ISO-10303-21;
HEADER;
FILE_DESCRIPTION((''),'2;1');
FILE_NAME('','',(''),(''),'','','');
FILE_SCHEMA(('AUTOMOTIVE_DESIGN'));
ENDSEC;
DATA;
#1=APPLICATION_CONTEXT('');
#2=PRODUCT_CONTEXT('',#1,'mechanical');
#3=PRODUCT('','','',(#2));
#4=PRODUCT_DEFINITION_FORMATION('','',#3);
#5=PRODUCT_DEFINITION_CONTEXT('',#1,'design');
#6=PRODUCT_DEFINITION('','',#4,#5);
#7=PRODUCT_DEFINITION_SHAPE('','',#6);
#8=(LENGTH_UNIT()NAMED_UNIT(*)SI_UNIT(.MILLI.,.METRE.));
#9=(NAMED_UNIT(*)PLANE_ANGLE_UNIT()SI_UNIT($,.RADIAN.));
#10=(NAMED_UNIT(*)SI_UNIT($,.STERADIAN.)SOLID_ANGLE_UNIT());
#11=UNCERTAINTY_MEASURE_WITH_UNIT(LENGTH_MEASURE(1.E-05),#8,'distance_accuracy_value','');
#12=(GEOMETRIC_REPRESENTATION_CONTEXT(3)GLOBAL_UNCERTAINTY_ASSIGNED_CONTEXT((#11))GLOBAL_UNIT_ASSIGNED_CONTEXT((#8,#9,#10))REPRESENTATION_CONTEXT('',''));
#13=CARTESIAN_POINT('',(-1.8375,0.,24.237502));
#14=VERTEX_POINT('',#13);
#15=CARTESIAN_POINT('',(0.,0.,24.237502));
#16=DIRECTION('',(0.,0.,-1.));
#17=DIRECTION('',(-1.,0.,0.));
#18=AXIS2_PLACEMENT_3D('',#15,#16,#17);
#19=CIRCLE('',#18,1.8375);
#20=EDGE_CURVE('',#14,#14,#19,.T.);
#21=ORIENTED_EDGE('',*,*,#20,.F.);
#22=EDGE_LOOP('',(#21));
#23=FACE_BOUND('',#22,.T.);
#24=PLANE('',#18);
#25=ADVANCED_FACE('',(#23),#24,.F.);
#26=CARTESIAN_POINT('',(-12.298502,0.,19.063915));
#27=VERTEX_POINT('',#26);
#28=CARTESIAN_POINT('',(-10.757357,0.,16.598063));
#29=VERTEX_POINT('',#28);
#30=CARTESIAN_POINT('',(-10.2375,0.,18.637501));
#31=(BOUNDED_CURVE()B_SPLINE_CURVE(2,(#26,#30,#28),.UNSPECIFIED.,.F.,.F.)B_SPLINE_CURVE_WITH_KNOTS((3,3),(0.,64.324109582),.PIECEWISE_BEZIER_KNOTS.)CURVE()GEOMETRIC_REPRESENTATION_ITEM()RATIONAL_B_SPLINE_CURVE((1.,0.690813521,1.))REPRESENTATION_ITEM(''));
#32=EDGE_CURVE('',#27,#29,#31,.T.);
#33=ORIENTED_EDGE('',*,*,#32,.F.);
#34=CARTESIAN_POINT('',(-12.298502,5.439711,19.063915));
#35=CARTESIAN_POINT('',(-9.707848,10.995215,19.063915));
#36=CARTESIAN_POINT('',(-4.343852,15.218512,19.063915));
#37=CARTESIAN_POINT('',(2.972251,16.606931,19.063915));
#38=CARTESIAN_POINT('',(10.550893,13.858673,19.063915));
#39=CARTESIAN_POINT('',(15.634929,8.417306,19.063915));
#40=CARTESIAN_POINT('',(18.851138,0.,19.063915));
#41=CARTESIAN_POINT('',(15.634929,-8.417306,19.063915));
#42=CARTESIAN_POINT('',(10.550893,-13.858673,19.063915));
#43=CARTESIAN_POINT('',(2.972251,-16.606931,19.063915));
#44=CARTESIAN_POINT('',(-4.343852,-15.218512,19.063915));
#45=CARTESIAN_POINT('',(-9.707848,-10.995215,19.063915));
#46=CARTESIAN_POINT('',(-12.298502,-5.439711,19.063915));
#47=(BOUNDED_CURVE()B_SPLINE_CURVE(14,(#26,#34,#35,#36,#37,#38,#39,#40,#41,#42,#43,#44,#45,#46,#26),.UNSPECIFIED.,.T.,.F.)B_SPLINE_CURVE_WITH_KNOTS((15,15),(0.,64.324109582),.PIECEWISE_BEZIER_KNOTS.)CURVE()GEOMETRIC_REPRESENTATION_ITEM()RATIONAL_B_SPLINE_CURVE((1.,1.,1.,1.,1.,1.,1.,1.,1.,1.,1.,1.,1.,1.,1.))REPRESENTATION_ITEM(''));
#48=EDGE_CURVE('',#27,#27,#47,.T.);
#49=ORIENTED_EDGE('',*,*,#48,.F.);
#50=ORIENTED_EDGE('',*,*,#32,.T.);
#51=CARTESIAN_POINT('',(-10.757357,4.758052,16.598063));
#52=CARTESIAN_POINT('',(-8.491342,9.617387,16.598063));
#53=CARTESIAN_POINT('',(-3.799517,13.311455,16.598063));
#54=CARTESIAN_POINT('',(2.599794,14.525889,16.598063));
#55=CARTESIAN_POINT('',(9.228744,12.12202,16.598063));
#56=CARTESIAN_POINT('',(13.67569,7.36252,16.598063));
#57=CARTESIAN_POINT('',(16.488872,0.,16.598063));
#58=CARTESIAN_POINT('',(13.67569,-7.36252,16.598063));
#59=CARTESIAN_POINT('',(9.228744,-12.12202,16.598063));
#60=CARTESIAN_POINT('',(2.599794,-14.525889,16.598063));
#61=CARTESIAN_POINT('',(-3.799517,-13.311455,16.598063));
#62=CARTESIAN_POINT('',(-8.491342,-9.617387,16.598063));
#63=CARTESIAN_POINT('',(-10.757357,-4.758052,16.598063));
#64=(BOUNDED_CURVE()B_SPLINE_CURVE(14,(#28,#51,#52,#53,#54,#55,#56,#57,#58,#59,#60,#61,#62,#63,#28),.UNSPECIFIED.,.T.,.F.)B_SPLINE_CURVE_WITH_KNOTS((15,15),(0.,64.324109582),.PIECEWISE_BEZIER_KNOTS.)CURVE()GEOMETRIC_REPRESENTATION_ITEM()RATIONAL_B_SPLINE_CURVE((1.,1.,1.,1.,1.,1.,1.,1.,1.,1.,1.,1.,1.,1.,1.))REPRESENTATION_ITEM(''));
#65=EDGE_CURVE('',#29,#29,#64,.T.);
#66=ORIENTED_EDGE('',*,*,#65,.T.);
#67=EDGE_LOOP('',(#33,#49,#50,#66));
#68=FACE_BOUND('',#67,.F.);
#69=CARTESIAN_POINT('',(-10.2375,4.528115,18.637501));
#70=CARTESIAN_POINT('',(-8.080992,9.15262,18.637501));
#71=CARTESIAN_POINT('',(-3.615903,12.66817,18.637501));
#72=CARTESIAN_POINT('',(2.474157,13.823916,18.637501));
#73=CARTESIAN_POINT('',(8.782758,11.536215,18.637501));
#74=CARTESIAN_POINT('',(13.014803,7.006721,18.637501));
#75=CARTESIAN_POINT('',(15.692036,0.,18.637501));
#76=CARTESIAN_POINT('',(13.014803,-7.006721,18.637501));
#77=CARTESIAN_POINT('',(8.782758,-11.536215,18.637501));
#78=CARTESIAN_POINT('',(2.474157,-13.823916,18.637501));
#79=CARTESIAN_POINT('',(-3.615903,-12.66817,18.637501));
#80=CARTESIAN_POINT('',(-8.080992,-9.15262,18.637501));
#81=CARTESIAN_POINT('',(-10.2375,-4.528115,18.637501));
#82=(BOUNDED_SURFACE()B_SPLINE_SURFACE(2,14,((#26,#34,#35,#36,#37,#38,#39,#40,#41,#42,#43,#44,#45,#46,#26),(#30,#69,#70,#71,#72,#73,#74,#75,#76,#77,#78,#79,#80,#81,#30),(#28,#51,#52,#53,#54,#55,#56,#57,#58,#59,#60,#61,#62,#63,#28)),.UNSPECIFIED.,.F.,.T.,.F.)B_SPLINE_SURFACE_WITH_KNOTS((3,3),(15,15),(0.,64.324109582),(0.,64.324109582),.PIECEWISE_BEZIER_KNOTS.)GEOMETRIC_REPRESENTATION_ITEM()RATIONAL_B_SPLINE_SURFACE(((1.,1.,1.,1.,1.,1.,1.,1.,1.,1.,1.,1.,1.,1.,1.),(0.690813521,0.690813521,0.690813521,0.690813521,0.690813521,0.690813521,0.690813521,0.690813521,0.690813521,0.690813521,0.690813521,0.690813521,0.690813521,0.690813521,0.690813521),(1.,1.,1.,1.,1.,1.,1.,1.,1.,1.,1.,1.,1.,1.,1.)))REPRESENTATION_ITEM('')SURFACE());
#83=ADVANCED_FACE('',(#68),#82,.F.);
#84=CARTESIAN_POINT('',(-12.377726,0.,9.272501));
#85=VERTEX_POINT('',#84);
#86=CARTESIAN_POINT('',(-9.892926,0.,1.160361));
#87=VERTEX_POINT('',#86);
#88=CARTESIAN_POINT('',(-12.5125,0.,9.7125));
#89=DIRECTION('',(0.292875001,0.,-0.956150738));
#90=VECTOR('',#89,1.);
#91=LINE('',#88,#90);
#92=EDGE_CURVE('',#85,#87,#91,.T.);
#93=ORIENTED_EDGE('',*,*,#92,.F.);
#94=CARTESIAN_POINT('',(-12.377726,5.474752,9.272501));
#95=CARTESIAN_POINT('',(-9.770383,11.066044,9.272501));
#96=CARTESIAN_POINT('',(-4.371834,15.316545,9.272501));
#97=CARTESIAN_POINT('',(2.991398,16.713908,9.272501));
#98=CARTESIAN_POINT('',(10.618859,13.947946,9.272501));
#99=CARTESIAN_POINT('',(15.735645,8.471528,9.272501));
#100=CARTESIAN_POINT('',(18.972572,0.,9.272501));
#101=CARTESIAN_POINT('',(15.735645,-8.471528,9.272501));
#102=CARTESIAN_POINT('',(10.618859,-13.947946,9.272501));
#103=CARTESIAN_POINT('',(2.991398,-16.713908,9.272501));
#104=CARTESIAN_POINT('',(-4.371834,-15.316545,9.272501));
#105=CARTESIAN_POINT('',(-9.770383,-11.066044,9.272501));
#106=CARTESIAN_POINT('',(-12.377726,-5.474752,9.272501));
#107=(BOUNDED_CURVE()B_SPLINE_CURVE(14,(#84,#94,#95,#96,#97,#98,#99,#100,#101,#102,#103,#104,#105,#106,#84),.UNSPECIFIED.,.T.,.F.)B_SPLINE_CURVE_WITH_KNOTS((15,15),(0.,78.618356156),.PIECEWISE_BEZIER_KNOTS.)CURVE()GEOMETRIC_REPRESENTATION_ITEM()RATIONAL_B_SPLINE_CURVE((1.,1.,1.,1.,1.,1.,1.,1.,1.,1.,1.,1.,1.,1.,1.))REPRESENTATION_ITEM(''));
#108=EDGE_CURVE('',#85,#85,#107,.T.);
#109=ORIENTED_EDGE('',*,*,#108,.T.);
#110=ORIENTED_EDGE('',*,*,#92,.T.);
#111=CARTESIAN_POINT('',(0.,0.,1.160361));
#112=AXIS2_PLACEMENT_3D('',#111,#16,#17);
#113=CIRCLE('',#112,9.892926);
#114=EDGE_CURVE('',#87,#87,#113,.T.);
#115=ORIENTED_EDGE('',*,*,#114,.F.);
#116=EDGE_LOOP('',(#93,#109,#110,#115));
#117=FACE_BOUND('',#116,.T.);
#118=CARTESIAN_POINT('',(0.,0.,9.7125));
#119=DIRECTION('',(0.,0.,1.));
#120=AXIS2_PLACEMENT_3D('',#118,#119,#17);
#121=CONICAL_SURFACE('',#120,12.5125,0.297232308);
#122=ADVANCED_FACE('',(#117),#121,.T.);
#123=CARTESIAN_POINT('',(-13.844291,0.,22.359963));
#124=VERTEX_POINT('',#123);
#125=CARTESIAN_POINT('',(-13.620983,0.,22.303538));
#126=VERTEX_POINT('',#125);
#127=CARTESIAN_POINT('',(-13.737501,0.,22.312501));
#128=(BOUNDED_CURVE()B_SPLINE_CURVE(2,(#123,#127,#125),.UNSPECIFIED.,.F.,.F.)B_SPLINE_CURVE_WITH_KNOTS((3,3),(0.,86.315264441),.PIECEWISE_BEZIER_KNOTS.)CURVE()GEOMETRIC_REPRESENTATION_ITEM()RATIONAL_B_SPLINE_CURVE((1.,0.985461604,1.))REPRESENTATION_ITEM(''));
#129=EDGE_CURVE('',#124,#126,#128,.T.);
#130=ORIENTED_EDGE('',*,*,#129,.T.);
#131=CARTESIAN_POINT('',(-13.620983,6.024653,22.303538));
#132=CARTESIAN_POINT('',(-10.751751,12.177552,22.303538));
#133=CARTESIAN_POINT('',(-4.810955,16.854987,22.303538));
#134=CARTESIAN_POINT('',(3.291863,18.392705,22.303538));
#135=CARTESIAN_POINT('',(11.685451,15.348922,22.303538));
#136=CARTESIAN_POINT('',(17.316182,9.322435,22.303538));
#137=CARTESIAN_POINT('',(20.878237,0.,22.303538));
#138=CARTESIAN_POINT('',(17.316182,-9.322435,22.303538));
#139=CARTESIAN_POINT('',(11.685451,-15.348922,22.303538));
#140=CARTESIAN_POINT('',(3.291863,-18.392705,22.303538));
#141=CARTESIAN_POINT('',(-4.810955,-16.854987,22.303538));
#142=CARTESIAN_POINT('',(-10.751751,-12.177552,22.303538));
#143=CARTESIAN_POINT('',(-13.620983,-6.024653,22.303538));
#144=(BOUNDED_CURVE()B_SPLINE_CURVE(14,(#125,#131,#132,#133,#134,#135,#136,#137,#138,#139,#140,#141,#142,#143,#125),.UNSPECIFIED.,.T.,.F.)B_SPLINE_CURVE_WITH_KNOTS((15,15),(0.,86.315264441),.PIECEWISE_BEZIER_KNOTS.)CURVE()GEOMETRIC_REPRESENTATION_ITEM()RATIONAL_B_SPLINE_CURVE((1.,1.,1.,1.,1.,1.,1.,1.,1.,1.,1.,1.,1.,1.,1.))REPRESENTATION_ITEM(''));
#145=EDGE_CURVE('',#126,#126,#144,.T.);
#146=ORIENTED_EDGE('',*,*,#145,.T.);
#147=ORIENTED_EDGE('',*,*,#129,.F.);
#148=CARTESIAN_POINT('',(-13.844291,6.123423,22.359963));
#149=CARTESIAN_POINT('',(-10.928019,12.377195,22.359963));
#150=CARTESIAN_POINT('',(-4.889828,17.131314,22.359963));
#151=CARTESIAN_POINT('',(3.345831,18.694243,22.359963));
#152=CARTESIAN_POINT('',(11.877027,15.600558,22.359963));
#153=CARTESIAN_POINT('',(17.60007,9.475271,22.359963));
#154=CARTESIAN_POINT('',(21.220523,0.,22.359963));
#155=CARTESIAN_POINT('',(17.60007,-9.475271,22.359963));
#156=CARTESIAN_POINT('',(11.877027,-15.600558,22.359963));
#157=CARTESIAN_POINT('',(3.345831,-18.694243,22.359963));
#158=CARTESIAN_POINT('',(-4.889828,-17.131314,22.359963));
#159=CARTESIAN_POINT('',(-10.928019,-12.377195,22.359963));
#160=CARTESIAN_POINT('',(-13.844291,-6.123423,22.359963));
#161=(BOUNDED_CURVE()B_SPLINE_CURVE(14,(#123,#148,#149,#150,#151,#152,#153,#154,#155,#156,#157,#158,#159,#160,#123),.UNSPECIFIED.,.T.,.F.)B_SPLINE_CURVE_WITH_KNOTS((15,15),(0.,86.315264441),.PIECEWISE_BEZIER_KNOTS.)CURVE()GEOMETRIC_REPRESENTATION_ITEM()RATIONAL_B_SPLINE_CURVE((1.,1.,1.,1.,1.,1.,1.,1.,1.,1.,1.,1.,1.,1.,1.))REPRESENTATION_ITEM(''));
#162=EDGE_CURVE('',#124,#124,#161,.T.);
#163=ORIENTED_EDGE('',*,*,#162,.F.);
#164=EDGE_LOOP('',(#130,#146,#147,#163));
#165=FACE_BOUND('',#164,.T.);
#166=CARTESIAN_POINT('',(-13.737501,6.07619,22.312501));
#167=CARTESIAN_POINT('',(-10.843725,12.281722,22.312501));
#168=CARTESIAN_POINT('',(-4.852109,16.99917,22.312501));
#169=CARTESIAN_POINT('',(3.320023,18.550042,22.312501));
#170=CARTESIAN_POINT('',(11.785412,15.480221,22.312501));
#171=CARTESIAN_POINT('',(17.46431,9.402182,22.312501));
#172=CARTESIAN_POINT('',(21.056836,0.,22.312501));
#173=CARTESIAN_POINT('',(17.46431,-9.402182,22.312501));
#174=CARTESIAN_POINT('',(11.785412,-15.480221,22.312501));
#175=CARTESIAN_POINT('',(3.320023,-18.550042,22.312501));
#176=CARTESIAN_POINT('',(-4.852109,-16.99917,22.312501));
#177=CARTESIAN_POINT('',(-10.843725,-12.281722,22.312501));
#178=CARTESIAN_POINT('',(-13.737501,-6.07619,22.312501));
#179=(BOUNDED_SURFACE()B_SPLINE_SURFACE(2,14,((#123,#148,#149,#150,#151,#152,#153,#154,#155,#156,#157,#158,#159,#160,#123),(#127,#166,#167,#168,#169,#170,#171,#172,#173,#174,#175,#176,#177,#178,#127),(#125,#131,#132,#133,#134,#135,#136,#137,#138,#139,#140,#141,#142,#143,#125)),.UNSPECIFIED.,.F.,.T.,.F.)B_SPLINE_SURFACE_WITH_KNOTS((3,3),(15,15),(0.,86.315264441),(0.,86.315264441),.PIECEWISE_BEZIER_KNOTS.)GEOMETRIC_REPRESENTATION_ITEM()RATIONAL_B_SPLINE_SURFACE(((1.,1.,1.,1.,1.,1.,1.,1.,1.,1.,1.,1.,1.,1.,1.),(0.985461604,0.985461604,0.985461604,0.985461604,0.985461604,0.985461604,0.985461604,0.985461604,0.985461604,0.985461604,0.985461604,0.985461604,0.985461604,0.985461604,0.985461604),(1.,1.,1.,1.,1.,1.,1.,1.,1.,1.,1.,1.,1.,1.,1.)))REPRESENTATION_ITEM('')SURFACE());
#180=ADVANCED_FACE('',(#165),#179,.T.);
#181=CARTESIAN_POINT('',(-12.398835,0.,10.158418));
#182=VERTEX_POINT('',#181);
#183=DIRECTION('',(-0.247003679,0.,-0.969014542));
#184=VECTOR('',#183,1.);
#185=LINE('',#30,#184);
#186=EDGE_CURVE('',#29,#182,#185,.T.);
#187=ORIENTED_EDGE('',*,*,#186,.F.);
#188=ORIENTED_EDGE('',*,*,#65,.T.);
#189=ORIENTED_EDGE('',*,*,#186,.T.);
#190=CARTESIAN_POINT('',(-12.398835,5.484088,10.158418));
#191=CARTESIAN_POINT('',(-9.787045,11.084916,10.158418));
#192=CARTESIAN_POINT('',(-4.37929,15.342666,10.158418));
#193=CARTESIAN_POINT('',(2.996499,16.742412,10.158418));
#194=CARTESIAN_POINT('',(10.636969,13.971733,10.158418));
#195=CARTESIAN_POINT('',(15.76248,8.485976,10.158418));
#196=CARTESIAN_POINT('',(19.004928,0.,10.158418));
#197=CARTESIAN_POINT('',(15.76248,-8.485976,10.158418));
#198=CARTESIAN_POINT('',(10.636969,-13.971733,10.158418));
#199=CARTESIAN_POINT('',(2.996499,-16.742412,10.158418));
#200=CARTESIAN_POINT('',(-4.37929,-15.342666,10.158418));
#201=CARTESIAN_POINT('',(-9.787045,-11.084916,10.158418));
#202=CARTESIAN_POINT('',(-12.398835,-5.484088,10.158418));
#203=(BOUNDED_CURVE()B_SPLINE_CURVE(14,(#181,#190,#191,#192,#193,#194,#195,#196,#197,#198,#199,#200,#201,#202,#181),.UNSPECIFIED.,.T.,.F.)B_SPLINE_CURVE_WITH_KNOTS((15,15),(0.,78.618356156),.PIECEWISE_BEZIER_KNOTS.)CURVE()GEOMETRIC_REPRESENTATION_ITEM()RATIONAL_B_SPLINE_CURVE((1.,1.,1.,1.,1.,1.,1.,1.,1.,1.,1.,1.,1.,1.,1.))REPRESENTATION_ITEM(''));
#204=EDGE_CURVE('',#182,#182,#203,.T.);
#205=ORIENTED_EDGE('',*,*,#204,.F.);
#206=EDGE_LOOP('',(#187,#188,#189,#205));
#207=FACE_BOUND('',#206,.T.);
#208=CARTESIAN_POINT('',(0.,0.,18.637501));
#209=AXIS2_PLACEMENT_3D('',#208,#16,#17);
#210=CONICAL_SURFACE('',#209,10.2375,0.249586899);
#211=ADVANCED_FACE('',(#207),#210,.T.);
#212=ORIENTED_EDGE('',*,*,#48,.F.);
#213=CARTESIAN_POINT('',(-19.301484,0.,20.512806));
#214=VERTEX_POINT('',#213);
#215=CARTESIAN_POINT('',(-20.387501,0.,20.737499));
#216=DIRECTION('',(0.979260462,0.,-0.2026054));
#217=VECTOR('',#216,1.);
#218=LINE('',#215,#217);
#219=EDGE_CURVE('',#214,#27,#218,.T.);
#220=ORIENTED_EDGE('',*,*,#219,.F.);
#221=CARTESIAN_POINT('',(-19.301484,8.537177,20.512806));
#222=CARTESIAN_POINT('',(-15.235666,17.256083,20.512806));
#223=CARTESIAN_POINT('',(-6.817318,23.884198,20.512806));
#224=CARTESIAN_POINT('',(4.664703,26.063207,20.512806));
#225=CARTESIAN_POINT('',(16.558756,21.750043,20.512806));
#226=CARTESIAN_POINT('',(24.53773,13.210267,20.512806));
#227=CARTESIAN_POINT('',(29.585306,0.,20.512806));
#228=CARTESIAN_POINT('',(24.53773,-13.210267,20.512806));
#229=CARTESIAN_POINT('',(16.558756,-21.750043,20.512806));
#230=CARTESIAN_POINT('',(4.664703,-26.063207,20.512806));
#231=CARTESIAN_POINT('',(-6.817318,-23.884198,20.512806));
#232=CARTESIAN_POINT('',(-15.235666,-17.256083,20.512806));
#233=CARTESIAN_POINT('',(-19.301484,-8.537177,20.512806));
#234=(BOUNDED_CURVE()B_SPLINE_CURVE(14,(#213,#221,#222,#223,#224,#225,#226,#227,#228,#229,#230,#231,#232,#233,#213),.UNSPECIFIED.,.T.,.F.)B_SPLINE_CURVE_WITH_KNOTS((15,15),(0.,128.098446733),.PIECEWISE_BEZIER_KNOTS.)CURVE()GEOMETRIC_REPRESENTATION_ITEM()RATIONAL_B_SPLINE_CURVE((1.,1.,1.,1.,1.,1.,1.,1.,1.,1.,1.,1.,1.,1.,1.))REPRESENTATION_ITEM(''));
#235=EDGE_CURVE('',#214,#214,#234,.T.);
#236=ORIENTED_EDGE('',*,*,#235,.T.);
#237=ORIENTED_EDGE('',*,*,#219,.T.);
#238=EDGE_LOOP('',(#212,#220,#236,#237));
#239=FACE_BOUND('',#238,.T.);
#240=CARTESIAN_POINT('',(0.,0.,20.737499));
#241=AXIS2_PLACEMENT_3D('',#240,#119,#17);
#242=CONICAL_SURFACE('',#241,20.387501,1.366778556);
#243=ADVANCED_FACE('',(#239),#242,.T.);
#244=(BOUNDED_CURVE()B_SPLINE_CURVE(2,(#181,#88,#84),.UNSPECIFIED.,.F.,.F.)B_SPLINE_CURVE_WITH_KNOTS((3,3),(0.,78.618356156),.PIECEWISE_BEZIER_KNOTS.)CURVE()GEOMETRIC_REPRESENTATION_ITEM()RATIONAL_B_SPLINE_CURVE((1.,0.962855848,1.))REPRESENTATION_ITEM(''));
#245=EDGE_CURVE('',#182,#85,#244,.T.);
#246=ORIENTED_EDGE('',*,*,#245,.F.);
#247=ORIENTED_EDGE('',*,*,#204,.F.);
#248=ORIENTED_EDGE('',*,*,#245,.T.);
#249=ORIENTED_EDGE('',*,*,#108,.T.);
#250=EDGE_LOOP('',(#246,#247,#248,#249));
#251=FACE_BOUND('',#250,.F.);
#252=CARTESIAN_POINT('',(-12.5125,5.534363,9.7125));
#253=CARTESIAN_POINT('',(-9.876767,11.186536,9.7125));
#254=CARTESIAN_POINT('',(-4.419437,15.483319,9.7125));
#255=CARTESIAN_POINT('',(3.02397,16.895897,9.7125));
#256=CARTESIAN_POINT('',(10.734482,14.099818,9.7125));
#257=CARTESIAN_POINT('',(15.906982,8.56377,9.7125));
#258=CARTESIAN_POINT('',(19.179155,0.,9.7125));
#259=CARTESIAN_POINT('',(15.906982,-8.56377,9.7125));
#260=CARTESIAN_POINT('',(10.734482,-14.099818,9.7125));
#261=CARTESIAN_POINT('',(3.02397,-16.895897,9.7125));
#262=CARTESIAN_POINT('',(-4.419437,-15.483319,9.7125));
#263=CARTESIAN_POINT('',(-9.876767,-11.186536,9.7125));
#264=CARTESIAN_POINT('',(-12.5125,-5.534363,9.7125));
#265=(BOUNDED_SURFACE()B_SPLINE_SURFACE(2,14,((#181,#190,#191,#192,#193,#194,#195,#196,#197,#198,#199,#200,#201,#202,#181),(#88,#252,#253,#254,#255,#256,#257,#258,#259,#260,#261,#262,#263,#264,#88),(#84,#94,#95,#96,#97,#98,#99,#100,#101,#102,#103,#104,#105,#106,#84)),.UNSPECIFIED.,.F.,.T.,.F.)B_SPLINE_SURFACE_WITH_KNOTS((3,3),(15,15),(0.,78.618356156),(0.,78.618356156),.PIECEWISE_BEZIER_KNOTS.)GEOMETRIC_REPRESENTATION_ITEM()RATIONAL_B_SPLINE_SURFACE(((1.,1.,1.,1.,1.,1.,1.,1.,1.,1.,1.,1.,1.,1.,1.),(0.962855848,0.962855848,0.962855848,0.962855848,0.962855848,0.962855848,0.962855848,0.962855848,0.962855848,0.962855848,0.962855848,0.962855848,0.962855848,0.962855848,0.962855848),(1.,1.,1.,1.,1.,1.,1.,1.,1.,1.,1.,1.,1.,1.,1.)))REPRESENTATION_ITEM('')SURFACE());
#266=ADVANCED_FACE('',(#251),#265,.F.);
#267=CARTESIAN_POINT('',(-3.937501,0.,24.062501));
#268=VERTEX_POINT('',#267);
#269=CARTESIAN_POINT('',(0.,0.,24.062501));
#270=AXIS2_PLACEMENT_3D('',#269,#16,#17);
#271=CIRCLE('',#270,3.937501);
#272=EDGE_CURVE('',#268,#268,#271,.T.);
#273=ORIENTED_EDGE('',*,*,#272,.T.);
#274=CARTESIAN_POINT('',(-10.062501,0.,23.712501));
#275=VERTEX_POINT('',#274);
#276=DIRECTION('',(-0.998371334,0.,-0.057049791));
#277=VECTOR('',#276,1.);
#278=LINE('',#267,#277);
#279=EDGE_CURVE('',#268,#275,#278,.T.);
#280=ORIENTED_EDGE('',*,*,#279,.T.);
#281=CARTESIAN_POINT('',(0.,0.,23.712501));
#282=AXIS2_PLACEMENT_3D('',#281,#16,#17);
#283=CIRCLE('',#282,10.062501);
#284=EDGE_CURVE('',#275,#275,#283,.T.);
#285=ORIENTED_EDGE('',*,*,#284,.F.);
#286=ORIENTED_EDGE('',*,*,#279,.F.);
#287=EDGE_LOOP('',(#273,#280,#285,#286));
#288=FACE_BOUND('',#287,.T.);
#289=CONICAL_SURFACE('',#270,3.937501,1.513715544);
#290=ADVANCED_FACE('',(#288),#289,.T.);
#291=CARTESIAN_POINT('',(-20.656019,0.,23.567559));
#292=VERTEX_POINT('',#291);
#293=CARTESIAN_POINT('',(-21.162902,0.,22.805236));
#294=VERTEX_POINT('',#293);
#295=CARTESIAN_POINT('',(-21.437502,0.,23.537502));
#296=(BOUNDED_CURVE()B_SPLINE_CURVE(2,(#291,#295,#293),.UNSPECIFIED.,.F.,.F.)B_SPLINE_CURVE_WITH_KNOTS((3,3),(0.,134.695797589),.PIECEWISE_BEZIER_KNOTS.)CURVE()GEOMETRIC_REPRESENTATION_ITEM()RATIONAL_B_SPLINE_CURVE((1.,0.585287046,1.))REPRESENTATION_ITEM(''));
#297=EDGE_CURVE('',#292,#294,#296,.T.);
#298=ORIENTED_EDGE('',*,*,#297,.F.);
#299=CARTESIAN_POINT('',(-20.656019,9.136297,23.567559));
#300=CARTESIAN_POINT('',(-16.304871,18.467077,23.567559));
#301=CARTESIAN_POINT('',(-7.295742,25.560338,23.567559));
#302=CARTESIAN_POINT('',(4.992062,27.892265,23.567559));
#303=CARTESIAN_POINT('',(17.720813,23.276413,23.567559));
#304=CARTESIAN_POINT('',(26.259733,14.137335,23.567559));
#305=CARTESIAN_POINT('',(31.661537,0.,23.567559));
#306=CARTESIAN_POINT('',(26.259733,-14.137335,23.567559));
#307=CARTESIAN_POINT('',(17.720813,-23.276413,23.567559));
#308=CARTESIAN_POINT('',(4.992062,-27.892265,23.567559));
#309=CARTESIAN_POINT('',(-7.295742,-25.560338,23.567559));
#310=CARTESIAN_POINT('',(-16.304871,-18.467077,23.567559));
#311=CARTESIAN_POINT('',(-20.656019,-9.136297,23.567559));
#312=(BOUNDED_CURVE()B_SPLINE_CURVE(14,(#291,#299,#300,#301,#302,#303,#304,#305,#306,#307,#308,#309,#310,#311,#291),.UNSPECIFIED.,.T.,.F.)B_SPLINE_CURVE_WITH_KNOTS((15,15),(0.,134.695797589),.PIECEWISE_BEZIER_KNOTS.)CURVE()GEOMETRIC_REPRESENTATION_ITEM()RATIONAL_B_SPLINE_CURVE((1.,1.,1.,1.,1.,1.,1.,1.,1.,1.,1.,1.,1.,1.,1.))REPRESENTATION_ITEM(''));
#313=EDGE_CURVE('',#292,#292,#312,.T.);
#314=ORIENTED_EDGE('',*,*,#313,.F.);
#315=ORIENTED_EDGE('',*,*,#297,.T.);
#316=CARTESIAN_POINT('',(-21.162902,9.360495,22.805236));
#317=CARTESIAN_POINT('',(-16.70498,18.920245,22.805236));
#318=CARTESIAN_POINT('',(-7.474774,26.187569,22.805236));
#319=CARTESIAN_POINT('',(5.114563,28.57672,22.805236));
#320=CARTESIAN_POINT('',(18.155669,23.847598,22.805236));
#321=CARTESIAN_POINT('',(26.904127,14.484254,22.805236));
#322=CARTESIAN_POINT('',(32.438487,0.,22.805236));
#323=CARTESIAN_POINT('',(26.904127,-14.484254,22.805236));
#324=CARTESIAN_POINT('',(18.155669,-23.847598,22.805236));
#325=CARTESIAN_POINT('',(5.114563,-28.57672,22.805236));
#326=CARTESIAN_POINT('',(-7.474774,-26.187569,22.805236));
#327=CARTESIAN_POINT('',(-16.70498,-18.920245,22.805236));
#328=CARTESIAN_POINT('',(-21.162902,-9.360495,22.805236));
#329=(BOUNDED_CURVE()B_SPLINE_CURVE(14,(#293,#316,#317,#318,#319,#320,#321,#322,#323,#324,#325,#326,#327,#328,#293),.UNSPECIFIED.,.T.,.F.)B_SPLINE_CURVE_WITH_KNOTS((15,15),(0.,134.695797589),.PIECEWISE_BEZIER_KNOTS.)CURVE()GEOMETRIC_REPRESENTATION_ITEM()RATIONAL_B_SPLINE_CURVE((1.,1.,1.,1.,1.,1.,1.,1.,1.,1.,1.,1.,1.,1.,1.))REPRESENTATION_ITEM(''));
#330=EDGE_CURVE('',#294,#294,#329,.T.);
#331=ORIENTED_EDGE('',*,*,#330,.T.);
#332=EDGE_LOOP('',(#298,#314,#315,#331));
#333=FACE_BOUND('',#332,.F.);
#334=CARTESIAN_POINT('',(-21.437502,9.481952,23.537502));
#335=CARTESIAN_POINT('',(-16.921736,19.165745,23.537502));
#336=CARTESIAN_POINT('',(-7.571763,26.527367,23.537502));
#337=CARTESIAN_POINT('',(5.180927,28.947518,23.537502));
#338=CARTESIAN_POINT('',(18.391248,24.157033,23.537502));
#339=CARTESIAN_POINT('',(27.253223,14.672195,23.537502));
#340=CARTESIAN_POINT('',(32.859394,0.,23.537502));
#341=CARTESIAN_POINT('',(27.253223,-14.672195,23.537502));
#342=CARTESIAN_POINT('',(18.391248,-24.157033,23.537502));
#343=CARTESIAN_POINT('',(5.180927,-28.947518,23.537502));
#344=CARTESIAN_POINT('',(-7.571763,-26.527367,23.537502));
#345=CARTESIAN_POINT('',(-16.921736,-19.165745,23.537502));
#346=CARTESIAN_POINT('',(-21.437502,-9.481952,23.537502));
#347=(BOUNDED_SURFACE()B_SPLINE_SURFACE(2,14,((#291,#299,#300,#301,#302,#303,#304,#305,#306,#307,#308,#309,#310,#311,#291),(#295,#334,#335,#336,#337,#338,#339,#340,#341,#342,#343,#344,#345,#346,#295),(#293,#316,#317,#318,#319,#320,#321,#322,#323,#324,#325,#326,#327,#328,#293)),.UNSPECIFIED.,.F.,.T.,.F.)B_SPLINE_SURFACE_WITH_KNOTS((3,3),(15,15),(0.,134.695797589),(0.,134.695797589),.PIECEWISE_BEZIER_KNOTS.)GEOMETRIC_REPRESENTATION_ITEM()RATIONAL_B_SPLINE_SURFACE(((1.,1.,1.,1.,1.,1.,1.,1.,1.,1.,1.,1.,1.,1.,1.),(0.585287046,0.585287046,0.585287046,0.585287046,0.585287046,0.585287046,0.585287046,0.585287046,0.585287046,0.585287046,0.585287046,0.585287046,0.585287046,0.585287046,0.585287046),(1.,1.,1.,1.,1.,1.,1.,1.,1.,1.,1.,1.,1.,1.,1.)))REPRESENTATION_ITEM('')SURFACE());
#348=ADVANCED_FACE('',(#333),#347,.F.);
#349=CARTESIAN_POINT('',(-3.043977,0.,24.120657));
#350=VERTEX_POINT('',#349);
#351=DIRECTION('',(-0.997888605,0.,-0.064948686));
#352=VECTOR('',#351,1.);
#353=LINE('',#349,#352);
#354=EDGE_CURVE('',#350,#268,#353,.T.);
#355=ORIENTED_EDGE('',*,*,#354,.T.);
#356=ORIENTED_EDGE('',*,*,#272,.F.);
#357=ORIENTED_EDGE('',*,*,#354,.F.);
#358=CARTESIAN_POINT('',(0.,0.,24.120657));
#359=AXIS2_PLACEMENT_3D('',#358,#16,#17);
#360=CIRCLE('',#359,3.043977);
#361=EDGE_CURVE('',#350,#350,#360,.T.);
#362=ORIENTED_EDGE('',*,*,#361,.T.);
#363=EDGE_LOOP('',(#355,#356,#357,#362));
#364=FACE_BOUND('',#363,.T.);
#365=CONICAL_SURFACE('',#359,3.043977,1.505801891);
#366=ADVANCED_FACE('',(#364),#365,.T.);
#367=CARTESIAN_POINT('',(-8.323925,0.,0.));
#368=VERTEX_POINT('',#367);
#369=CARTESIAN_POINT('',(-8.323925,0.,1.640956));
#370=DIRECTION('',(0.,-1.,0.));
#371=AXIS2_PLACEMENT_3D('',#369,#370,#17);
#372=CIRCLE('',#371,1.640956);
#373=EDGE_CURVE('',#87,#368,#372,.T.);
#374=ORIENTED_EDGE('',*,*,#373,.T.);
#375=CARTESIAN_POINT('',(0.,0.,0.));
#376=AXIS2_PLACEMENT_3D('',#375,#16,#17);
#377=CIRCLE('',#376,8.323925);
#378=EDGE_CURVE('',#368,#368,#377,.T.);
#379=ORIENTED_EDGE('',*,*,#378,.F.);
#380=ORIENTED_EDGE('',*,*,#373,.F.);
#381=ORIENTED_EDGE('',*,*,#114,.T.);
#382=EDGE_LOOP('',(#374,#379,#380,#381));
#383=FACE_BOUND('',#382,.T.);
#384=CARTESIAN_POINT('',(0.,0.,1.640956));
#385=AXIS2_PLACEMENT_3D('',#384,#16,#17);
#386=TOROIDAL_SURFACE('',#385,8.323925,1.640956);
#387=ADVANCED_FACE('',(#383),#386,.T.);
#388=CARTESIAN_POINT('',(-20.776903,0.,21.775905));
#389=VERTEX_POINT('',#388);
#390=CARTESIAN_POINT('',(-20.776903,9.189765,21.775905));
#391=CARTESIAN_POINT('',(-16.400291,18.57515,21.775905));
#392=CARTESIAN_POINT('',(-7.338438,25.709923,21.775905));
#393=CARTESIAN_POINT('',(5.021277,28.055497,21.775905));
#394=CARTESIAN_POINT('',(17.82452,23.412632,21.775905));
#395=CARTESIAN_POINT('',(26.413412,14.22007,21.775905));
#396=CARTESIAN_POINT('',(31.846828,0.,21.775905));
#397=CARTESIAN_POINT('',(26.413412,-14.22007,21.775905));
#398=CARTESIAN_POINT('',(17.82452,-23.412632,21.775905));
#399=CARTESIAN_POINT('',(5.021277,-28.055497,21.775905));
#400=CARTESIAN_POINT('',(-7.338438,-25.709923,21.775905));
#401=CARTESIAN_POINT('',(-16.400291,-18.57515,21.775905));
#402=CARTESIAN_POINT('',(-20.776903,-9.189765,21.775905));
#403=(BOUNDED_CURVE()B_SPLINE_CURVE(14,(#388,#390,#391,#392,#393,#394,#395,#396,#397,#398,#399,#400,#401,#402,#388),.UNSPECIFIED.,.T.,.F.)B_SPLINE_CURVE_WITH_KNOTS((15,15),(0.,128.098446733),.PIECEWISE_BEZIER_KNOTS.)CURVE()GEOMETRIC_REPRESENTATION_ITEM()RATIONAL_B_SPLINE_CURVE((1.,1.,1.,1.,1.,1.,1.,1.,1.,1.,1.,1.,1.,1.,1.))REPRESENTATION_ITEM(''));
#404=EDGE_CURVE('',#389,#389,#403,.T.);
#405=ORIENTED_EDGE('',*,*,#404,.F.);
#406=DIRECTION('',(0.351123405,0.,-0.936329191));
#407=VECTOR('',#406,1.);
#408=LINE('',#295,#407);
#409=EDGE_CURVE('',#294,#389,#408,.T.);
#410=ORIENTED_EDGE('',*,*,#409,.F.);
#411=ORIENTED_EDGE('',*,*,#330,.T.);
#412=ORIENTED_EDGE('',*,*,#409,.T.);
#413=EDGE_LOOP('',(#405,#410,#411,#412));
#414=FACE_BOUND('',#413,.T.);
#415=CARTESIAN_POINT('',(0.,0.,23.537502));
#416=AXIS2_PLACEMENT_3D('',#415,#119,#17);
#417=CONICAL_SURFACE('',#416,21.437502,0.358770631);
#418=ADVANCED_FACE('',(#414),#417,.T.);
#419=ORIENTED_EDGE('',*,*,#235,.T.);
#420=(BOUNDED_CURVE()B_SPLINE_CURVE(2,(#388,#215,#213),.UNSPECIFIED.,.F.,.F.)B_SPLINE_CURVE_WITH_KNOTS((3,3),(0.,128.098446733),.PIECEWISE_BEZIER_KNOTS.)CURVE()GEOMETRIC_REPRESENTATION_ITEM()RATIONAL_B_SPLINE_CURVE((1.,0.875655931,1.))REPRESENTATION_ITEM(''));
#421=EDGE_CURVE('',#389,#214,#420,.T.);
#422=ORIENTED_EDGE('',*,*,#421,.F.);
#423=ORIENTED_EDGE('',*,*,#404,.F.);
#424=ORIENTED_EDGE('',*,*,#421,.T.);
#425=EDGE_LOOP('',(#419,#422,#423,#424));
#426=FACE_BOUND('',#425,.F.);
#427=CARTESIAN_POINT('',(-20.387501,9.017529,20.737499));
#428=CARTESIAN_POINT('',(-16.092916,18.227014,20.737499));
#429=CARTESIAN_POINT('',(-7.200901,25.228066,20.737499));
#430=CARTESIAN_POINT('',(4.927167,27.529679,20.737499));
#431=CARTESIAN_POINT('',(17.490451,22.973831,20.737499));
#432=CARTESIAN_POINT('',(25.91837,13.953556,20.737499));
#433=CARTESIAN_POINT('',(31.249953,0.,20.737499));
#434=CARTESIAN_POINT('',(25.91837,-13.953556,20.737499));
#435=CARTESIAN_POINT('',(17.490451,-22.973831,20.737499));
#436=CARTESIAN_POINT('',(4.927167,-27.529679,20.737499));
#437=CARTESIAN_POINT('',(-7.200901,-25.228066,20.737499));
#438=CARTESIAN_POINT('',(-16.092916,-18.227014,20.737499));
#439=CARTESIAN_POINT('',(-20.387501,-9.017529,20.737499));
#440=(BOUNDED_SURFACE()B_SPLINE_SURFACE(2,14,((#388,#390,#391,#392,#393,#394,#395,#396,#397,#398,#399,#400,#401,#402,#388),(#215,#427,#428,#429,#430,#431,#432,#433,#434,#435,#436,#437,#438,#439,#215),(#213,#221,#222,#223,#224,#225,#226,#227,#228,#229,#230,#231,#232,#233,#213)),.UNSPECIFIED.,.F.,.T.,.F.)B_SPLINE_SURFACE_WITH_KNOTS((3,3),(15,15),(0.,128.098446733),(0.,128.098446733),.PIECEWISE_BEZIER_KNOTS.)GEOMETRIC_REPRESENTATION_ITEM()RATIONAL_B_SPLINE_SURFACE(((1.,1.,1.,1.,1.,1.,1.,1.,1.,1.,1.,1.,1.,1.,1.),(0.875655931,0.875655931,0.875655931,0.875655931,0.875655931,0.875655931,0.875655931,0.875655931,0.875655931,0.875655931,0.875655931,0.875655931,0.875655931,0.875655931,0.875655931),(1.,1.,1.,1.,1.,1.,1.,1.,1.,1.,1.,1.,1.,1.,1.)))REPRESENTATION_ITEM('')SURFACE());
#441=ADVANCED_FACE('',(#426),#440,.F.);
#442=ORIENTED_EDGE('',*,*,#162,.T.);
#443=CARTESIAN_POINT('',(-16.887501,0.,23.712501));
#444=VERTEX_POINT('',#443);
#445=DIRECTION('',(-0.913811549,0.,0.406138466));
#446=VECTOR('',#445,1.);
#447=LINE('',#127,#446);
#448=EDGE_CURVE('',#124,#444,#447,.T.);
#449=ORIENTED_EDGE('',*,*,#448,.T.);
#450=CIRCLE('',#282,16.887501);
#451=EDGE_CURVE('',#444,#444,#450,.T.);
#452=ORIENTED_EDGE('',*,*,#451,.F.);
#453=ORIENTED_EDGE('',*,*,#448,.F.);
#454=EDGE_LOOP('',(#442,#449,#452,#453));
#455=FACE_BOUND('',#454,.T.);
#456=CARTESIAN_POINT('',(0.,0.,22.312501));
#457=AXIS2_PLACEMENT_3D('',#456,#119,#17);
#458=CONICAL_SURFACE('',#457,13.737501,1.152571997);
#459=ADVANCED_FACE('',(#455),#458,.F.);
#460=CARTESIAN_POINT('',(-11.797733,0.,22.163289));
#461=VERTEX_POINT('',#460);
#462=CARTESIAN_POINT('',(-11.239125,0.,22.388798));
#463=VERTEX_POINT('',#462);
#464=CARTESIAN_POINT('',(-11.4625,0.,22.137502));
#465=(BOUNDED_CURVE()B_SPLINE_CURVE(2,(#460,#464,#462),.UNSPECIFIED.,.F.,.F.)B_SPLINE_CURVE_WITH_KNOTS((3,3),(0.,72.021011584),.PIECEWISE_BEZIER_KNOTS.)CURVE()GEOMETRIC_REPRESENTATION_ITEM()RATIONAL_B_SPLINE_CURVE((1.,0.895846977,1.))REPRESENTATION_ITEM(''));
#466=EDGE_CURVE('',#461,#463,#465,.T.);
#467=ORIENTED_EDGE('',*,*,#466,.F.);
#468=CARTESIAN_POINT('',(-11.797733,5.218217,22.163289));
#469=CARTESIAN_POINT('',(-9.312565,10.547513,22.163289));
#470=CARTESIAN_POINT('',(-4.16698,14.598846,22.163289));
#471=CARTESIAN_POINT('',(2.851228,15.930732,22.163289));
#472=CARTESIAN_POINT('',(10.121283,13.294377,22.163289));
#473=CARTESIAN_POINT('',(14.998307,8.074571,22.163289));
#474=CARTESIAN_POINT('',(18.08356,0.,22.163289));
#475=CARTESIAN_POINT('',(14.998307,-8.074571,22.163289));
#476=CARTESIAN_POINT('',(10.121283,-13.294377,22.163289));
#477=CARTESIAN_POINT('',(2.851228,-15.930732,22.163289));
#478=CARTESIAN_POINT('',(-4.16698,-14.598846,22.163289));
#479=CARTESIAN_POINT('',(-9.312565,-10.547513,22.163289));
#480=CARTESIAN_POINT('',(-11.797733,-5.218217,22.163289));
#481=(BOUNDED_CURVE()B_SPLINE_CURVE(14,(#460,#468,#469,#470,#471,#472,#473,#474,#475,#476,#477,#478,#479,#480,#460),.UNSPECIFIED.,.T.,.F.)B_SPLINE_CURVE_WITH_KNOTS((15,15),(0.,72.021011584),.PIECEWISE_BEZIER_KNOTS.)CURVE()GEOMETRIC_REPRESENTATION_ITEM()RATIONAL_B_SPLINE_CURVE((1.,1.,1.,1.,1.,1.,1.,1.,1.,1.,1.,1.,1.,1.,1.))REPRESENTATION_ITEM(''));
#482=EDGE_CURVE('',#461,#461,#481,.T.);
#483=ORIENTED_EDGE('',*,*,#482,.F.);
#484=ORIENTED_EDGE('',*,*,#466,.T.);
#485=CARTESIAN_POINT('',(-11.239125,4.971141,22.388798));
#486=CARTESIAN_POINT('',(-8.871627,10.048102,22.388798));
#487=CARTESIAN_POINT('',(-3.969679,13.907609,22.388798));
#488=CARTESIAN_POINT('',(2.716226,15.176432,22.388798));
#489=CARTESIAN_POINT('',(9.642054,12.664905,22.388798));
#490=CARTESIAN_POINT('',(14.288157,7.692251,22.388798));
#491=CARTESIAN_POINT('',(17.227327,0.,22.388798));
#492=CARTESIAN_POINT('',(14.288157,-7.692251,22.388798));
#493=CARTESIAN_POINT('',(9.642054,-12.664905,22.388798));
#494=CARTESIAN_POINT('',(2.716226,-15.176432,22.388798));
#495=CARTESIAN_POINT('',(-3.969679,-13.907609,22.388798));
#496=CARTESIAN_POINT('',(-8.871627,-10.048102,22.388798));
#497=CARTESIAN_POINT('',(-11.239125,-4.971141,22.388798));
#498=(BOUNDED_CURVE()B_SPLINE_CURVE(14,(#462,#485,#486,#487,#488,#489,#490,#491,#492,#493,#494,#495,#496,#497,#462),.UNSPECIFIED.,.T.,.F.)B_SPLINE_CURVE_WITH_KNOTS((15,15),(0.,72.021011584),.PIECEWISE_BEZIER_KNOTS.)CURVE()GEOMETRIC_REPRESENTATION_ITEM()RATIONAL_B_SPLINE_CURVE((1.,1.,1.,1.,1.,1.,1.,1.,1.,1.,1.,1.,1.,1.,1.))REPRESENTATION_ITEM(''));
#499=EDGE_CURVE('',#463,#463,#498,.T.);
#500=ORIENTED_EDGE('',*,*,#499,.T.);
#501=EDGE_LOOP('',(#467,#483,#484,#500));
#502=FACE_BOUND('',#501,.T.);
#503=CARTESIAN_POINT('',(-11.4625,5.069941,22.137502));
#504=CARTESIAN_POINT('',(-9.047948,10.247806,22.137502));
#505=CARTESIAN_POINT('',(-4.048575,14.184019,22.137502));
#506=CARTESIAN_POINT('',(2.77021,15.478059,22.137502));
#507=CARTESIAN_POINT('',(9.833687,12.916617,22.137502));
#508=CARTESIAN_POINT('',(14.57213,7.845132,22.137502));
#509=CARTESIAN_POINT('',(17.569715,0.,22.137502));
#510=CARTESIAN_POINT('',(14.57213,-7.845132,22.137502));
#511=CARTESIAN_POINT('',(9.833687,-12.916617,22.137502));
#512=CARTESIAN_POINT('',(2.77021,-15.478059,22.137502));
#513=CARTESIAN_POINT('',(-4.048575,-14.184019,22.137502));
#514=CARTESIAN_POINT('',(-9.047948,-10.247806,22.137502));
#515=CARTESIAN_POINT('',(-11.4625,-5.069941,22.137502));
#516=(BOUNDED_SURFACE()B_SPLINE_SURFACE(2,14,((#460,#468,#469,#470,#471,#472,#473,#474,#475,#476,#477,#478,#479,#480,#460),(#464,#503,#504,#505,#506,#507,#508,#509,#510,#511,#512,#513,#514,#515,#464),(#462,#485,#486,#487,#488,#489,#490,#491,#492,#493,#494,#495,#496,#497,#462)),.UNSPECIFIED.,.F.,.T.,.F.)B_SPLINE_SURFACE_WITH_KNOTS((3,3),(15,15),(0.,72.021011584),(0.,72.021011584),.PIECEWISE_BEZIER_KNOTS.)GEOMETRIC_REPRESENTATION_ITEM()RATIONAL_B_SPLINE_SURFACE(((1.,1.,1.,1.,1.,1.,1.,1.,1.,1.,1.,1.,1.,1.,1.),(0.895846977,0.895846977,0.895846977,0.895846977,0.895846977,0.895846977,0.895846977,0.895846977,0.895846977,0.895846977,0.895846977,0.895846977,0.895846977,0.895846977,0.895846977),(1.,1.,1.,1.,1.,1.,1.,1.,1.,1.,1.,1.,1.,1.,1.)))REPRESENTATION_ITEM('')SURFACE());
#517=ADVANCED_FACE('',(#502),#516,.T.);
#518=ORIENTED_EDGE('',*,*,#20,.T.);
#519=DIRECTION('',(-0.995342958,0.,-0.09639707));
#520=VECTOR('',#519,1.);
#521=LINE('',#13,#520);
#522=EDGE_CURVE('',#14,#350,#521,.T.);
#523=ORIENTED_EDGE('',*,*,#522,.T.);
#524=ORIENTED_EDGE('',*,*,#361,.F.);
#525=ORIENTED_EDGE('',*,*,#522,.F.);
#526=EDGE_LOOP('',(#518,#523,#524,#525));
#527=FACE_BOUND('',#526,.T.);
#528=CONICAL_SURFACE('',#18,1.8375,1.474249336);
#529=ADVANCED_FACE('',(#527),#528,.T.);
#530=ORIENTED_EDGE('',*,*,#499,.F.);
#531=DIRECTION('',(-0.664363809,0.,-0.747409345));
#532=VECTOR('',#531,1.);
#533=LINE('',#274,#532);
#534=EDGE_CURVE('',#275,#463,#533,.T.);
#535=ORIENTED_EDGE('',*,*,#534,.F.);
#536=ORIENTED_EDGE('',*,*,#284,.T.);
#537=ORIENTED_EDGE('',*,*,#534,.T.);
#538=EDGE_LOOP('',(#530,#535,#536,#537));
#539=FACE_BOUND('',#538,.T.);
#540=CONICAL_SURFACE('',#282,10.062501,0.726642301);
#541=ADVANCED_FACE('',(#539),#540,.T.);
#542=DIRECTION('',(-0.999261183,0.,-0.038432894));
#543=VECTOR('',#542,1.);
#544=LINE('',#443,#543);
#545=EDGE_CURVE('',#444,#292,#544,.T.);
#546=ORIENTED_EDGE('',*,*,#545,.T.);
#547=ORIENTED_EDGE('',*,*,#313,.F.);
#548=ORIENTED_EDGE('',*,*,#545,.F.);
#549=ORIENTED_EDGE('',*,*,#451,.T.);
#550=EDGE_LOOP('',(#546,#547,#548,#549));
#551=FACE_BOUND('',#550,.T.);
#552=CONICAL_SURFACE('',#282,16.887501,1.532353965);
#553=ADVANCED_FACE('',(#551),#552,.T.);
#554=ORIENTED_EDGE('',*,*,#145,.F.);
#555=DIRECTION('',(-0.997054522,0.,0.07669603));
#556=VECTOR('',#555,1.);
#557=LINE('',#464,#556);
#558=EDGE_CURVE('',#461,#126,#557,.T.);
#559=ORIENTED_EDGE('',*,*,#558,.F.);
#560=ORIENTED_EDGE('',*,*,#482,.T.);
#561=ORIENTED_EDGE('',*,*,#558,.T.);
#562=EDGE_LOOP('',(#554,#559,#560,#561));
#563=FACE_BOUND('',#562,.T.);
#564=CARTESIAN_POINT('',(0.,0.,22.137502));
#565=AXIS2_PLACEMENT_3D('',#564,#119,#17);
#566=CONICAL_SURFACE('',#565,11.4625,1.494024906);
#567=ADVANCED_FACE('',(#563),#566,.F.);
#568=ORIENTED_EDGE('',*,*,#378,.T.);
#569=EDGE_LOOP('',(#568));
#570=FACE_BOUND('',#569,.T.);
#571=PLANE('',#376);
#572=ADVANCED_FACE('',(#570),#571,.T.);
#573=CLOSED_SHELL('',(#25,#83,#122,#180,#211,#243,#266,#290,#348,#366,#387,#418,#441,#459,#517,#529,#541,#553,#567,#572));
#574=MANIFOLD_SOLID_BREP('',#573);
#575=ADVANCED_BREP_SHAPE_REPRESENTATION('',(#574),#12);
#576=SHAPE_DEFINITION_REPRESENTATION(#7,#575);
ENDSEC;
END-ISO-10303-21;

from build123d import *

# Parameters (mm, degrees)
F2_R = 0.564523
F3_R = 2.010865
F4_R = 0.677835
F5_R = 1.640956


with BuildPart() as f1:
    # F0 (on Front) → F1 (revolve)
    with BuildSketch(Plane.XZ):
        Polygon((-9.5375, 0), (0, 0), (0, 24.237502), (-1.8375, 24.237502), (-3.043977, 24.120657), (-3.937501, 24.062501), (-10.062501, 23.712501), (-11.4625, 22.137502), (-13.737501, 22.312501), (-16.887501, 23.712501), (-21.437502, 23.537502), (-20.387501, 20.737499), (-10.2375, 18.637501), (-12.5125, 9.7125), align=None)
    revolve(axis=Axis((0, 0, 12.118751), (0, 0, -1)))

    # F2
    f2_edges = [f1.edges().sort_by_distance(p)[0] for p in [
        (21.437502, 0, 23.537502),
    ]]
    fillet(f2_edges, radius=F2_R)

    # F3
    f3_edges = [f1.edges().sort_by_distance(p)[0] for p in [
        (20.387501, 0, 20.737499),
        (10.2375, 0, 18.637501),
        (-15.3125, 0, 19.6875),
    ]]
    fillet(f3_edges, radius=F3_R)

    # F4
    f4_edges = [f1.edges().sort_by_distance(p)[0] for p in [
        (11.4625, 0, 22.137502),
        (13.737501, 0, 22.312501),
        (-12.6, 0, 22.225002),
    ]]
    fillet(f4_edges, radius=F4_R)

    # F5
    f5_edges = [f1.edges().sort_by_distance(p)[0] for p in [
        (12.5125, 0, 9.7125),
        (9.5375, 0, 0),
        (-11.025, 0, 4.85625),
    ]]
    fillet(f5_edges, radius=F5_R)


solid = f1.part
